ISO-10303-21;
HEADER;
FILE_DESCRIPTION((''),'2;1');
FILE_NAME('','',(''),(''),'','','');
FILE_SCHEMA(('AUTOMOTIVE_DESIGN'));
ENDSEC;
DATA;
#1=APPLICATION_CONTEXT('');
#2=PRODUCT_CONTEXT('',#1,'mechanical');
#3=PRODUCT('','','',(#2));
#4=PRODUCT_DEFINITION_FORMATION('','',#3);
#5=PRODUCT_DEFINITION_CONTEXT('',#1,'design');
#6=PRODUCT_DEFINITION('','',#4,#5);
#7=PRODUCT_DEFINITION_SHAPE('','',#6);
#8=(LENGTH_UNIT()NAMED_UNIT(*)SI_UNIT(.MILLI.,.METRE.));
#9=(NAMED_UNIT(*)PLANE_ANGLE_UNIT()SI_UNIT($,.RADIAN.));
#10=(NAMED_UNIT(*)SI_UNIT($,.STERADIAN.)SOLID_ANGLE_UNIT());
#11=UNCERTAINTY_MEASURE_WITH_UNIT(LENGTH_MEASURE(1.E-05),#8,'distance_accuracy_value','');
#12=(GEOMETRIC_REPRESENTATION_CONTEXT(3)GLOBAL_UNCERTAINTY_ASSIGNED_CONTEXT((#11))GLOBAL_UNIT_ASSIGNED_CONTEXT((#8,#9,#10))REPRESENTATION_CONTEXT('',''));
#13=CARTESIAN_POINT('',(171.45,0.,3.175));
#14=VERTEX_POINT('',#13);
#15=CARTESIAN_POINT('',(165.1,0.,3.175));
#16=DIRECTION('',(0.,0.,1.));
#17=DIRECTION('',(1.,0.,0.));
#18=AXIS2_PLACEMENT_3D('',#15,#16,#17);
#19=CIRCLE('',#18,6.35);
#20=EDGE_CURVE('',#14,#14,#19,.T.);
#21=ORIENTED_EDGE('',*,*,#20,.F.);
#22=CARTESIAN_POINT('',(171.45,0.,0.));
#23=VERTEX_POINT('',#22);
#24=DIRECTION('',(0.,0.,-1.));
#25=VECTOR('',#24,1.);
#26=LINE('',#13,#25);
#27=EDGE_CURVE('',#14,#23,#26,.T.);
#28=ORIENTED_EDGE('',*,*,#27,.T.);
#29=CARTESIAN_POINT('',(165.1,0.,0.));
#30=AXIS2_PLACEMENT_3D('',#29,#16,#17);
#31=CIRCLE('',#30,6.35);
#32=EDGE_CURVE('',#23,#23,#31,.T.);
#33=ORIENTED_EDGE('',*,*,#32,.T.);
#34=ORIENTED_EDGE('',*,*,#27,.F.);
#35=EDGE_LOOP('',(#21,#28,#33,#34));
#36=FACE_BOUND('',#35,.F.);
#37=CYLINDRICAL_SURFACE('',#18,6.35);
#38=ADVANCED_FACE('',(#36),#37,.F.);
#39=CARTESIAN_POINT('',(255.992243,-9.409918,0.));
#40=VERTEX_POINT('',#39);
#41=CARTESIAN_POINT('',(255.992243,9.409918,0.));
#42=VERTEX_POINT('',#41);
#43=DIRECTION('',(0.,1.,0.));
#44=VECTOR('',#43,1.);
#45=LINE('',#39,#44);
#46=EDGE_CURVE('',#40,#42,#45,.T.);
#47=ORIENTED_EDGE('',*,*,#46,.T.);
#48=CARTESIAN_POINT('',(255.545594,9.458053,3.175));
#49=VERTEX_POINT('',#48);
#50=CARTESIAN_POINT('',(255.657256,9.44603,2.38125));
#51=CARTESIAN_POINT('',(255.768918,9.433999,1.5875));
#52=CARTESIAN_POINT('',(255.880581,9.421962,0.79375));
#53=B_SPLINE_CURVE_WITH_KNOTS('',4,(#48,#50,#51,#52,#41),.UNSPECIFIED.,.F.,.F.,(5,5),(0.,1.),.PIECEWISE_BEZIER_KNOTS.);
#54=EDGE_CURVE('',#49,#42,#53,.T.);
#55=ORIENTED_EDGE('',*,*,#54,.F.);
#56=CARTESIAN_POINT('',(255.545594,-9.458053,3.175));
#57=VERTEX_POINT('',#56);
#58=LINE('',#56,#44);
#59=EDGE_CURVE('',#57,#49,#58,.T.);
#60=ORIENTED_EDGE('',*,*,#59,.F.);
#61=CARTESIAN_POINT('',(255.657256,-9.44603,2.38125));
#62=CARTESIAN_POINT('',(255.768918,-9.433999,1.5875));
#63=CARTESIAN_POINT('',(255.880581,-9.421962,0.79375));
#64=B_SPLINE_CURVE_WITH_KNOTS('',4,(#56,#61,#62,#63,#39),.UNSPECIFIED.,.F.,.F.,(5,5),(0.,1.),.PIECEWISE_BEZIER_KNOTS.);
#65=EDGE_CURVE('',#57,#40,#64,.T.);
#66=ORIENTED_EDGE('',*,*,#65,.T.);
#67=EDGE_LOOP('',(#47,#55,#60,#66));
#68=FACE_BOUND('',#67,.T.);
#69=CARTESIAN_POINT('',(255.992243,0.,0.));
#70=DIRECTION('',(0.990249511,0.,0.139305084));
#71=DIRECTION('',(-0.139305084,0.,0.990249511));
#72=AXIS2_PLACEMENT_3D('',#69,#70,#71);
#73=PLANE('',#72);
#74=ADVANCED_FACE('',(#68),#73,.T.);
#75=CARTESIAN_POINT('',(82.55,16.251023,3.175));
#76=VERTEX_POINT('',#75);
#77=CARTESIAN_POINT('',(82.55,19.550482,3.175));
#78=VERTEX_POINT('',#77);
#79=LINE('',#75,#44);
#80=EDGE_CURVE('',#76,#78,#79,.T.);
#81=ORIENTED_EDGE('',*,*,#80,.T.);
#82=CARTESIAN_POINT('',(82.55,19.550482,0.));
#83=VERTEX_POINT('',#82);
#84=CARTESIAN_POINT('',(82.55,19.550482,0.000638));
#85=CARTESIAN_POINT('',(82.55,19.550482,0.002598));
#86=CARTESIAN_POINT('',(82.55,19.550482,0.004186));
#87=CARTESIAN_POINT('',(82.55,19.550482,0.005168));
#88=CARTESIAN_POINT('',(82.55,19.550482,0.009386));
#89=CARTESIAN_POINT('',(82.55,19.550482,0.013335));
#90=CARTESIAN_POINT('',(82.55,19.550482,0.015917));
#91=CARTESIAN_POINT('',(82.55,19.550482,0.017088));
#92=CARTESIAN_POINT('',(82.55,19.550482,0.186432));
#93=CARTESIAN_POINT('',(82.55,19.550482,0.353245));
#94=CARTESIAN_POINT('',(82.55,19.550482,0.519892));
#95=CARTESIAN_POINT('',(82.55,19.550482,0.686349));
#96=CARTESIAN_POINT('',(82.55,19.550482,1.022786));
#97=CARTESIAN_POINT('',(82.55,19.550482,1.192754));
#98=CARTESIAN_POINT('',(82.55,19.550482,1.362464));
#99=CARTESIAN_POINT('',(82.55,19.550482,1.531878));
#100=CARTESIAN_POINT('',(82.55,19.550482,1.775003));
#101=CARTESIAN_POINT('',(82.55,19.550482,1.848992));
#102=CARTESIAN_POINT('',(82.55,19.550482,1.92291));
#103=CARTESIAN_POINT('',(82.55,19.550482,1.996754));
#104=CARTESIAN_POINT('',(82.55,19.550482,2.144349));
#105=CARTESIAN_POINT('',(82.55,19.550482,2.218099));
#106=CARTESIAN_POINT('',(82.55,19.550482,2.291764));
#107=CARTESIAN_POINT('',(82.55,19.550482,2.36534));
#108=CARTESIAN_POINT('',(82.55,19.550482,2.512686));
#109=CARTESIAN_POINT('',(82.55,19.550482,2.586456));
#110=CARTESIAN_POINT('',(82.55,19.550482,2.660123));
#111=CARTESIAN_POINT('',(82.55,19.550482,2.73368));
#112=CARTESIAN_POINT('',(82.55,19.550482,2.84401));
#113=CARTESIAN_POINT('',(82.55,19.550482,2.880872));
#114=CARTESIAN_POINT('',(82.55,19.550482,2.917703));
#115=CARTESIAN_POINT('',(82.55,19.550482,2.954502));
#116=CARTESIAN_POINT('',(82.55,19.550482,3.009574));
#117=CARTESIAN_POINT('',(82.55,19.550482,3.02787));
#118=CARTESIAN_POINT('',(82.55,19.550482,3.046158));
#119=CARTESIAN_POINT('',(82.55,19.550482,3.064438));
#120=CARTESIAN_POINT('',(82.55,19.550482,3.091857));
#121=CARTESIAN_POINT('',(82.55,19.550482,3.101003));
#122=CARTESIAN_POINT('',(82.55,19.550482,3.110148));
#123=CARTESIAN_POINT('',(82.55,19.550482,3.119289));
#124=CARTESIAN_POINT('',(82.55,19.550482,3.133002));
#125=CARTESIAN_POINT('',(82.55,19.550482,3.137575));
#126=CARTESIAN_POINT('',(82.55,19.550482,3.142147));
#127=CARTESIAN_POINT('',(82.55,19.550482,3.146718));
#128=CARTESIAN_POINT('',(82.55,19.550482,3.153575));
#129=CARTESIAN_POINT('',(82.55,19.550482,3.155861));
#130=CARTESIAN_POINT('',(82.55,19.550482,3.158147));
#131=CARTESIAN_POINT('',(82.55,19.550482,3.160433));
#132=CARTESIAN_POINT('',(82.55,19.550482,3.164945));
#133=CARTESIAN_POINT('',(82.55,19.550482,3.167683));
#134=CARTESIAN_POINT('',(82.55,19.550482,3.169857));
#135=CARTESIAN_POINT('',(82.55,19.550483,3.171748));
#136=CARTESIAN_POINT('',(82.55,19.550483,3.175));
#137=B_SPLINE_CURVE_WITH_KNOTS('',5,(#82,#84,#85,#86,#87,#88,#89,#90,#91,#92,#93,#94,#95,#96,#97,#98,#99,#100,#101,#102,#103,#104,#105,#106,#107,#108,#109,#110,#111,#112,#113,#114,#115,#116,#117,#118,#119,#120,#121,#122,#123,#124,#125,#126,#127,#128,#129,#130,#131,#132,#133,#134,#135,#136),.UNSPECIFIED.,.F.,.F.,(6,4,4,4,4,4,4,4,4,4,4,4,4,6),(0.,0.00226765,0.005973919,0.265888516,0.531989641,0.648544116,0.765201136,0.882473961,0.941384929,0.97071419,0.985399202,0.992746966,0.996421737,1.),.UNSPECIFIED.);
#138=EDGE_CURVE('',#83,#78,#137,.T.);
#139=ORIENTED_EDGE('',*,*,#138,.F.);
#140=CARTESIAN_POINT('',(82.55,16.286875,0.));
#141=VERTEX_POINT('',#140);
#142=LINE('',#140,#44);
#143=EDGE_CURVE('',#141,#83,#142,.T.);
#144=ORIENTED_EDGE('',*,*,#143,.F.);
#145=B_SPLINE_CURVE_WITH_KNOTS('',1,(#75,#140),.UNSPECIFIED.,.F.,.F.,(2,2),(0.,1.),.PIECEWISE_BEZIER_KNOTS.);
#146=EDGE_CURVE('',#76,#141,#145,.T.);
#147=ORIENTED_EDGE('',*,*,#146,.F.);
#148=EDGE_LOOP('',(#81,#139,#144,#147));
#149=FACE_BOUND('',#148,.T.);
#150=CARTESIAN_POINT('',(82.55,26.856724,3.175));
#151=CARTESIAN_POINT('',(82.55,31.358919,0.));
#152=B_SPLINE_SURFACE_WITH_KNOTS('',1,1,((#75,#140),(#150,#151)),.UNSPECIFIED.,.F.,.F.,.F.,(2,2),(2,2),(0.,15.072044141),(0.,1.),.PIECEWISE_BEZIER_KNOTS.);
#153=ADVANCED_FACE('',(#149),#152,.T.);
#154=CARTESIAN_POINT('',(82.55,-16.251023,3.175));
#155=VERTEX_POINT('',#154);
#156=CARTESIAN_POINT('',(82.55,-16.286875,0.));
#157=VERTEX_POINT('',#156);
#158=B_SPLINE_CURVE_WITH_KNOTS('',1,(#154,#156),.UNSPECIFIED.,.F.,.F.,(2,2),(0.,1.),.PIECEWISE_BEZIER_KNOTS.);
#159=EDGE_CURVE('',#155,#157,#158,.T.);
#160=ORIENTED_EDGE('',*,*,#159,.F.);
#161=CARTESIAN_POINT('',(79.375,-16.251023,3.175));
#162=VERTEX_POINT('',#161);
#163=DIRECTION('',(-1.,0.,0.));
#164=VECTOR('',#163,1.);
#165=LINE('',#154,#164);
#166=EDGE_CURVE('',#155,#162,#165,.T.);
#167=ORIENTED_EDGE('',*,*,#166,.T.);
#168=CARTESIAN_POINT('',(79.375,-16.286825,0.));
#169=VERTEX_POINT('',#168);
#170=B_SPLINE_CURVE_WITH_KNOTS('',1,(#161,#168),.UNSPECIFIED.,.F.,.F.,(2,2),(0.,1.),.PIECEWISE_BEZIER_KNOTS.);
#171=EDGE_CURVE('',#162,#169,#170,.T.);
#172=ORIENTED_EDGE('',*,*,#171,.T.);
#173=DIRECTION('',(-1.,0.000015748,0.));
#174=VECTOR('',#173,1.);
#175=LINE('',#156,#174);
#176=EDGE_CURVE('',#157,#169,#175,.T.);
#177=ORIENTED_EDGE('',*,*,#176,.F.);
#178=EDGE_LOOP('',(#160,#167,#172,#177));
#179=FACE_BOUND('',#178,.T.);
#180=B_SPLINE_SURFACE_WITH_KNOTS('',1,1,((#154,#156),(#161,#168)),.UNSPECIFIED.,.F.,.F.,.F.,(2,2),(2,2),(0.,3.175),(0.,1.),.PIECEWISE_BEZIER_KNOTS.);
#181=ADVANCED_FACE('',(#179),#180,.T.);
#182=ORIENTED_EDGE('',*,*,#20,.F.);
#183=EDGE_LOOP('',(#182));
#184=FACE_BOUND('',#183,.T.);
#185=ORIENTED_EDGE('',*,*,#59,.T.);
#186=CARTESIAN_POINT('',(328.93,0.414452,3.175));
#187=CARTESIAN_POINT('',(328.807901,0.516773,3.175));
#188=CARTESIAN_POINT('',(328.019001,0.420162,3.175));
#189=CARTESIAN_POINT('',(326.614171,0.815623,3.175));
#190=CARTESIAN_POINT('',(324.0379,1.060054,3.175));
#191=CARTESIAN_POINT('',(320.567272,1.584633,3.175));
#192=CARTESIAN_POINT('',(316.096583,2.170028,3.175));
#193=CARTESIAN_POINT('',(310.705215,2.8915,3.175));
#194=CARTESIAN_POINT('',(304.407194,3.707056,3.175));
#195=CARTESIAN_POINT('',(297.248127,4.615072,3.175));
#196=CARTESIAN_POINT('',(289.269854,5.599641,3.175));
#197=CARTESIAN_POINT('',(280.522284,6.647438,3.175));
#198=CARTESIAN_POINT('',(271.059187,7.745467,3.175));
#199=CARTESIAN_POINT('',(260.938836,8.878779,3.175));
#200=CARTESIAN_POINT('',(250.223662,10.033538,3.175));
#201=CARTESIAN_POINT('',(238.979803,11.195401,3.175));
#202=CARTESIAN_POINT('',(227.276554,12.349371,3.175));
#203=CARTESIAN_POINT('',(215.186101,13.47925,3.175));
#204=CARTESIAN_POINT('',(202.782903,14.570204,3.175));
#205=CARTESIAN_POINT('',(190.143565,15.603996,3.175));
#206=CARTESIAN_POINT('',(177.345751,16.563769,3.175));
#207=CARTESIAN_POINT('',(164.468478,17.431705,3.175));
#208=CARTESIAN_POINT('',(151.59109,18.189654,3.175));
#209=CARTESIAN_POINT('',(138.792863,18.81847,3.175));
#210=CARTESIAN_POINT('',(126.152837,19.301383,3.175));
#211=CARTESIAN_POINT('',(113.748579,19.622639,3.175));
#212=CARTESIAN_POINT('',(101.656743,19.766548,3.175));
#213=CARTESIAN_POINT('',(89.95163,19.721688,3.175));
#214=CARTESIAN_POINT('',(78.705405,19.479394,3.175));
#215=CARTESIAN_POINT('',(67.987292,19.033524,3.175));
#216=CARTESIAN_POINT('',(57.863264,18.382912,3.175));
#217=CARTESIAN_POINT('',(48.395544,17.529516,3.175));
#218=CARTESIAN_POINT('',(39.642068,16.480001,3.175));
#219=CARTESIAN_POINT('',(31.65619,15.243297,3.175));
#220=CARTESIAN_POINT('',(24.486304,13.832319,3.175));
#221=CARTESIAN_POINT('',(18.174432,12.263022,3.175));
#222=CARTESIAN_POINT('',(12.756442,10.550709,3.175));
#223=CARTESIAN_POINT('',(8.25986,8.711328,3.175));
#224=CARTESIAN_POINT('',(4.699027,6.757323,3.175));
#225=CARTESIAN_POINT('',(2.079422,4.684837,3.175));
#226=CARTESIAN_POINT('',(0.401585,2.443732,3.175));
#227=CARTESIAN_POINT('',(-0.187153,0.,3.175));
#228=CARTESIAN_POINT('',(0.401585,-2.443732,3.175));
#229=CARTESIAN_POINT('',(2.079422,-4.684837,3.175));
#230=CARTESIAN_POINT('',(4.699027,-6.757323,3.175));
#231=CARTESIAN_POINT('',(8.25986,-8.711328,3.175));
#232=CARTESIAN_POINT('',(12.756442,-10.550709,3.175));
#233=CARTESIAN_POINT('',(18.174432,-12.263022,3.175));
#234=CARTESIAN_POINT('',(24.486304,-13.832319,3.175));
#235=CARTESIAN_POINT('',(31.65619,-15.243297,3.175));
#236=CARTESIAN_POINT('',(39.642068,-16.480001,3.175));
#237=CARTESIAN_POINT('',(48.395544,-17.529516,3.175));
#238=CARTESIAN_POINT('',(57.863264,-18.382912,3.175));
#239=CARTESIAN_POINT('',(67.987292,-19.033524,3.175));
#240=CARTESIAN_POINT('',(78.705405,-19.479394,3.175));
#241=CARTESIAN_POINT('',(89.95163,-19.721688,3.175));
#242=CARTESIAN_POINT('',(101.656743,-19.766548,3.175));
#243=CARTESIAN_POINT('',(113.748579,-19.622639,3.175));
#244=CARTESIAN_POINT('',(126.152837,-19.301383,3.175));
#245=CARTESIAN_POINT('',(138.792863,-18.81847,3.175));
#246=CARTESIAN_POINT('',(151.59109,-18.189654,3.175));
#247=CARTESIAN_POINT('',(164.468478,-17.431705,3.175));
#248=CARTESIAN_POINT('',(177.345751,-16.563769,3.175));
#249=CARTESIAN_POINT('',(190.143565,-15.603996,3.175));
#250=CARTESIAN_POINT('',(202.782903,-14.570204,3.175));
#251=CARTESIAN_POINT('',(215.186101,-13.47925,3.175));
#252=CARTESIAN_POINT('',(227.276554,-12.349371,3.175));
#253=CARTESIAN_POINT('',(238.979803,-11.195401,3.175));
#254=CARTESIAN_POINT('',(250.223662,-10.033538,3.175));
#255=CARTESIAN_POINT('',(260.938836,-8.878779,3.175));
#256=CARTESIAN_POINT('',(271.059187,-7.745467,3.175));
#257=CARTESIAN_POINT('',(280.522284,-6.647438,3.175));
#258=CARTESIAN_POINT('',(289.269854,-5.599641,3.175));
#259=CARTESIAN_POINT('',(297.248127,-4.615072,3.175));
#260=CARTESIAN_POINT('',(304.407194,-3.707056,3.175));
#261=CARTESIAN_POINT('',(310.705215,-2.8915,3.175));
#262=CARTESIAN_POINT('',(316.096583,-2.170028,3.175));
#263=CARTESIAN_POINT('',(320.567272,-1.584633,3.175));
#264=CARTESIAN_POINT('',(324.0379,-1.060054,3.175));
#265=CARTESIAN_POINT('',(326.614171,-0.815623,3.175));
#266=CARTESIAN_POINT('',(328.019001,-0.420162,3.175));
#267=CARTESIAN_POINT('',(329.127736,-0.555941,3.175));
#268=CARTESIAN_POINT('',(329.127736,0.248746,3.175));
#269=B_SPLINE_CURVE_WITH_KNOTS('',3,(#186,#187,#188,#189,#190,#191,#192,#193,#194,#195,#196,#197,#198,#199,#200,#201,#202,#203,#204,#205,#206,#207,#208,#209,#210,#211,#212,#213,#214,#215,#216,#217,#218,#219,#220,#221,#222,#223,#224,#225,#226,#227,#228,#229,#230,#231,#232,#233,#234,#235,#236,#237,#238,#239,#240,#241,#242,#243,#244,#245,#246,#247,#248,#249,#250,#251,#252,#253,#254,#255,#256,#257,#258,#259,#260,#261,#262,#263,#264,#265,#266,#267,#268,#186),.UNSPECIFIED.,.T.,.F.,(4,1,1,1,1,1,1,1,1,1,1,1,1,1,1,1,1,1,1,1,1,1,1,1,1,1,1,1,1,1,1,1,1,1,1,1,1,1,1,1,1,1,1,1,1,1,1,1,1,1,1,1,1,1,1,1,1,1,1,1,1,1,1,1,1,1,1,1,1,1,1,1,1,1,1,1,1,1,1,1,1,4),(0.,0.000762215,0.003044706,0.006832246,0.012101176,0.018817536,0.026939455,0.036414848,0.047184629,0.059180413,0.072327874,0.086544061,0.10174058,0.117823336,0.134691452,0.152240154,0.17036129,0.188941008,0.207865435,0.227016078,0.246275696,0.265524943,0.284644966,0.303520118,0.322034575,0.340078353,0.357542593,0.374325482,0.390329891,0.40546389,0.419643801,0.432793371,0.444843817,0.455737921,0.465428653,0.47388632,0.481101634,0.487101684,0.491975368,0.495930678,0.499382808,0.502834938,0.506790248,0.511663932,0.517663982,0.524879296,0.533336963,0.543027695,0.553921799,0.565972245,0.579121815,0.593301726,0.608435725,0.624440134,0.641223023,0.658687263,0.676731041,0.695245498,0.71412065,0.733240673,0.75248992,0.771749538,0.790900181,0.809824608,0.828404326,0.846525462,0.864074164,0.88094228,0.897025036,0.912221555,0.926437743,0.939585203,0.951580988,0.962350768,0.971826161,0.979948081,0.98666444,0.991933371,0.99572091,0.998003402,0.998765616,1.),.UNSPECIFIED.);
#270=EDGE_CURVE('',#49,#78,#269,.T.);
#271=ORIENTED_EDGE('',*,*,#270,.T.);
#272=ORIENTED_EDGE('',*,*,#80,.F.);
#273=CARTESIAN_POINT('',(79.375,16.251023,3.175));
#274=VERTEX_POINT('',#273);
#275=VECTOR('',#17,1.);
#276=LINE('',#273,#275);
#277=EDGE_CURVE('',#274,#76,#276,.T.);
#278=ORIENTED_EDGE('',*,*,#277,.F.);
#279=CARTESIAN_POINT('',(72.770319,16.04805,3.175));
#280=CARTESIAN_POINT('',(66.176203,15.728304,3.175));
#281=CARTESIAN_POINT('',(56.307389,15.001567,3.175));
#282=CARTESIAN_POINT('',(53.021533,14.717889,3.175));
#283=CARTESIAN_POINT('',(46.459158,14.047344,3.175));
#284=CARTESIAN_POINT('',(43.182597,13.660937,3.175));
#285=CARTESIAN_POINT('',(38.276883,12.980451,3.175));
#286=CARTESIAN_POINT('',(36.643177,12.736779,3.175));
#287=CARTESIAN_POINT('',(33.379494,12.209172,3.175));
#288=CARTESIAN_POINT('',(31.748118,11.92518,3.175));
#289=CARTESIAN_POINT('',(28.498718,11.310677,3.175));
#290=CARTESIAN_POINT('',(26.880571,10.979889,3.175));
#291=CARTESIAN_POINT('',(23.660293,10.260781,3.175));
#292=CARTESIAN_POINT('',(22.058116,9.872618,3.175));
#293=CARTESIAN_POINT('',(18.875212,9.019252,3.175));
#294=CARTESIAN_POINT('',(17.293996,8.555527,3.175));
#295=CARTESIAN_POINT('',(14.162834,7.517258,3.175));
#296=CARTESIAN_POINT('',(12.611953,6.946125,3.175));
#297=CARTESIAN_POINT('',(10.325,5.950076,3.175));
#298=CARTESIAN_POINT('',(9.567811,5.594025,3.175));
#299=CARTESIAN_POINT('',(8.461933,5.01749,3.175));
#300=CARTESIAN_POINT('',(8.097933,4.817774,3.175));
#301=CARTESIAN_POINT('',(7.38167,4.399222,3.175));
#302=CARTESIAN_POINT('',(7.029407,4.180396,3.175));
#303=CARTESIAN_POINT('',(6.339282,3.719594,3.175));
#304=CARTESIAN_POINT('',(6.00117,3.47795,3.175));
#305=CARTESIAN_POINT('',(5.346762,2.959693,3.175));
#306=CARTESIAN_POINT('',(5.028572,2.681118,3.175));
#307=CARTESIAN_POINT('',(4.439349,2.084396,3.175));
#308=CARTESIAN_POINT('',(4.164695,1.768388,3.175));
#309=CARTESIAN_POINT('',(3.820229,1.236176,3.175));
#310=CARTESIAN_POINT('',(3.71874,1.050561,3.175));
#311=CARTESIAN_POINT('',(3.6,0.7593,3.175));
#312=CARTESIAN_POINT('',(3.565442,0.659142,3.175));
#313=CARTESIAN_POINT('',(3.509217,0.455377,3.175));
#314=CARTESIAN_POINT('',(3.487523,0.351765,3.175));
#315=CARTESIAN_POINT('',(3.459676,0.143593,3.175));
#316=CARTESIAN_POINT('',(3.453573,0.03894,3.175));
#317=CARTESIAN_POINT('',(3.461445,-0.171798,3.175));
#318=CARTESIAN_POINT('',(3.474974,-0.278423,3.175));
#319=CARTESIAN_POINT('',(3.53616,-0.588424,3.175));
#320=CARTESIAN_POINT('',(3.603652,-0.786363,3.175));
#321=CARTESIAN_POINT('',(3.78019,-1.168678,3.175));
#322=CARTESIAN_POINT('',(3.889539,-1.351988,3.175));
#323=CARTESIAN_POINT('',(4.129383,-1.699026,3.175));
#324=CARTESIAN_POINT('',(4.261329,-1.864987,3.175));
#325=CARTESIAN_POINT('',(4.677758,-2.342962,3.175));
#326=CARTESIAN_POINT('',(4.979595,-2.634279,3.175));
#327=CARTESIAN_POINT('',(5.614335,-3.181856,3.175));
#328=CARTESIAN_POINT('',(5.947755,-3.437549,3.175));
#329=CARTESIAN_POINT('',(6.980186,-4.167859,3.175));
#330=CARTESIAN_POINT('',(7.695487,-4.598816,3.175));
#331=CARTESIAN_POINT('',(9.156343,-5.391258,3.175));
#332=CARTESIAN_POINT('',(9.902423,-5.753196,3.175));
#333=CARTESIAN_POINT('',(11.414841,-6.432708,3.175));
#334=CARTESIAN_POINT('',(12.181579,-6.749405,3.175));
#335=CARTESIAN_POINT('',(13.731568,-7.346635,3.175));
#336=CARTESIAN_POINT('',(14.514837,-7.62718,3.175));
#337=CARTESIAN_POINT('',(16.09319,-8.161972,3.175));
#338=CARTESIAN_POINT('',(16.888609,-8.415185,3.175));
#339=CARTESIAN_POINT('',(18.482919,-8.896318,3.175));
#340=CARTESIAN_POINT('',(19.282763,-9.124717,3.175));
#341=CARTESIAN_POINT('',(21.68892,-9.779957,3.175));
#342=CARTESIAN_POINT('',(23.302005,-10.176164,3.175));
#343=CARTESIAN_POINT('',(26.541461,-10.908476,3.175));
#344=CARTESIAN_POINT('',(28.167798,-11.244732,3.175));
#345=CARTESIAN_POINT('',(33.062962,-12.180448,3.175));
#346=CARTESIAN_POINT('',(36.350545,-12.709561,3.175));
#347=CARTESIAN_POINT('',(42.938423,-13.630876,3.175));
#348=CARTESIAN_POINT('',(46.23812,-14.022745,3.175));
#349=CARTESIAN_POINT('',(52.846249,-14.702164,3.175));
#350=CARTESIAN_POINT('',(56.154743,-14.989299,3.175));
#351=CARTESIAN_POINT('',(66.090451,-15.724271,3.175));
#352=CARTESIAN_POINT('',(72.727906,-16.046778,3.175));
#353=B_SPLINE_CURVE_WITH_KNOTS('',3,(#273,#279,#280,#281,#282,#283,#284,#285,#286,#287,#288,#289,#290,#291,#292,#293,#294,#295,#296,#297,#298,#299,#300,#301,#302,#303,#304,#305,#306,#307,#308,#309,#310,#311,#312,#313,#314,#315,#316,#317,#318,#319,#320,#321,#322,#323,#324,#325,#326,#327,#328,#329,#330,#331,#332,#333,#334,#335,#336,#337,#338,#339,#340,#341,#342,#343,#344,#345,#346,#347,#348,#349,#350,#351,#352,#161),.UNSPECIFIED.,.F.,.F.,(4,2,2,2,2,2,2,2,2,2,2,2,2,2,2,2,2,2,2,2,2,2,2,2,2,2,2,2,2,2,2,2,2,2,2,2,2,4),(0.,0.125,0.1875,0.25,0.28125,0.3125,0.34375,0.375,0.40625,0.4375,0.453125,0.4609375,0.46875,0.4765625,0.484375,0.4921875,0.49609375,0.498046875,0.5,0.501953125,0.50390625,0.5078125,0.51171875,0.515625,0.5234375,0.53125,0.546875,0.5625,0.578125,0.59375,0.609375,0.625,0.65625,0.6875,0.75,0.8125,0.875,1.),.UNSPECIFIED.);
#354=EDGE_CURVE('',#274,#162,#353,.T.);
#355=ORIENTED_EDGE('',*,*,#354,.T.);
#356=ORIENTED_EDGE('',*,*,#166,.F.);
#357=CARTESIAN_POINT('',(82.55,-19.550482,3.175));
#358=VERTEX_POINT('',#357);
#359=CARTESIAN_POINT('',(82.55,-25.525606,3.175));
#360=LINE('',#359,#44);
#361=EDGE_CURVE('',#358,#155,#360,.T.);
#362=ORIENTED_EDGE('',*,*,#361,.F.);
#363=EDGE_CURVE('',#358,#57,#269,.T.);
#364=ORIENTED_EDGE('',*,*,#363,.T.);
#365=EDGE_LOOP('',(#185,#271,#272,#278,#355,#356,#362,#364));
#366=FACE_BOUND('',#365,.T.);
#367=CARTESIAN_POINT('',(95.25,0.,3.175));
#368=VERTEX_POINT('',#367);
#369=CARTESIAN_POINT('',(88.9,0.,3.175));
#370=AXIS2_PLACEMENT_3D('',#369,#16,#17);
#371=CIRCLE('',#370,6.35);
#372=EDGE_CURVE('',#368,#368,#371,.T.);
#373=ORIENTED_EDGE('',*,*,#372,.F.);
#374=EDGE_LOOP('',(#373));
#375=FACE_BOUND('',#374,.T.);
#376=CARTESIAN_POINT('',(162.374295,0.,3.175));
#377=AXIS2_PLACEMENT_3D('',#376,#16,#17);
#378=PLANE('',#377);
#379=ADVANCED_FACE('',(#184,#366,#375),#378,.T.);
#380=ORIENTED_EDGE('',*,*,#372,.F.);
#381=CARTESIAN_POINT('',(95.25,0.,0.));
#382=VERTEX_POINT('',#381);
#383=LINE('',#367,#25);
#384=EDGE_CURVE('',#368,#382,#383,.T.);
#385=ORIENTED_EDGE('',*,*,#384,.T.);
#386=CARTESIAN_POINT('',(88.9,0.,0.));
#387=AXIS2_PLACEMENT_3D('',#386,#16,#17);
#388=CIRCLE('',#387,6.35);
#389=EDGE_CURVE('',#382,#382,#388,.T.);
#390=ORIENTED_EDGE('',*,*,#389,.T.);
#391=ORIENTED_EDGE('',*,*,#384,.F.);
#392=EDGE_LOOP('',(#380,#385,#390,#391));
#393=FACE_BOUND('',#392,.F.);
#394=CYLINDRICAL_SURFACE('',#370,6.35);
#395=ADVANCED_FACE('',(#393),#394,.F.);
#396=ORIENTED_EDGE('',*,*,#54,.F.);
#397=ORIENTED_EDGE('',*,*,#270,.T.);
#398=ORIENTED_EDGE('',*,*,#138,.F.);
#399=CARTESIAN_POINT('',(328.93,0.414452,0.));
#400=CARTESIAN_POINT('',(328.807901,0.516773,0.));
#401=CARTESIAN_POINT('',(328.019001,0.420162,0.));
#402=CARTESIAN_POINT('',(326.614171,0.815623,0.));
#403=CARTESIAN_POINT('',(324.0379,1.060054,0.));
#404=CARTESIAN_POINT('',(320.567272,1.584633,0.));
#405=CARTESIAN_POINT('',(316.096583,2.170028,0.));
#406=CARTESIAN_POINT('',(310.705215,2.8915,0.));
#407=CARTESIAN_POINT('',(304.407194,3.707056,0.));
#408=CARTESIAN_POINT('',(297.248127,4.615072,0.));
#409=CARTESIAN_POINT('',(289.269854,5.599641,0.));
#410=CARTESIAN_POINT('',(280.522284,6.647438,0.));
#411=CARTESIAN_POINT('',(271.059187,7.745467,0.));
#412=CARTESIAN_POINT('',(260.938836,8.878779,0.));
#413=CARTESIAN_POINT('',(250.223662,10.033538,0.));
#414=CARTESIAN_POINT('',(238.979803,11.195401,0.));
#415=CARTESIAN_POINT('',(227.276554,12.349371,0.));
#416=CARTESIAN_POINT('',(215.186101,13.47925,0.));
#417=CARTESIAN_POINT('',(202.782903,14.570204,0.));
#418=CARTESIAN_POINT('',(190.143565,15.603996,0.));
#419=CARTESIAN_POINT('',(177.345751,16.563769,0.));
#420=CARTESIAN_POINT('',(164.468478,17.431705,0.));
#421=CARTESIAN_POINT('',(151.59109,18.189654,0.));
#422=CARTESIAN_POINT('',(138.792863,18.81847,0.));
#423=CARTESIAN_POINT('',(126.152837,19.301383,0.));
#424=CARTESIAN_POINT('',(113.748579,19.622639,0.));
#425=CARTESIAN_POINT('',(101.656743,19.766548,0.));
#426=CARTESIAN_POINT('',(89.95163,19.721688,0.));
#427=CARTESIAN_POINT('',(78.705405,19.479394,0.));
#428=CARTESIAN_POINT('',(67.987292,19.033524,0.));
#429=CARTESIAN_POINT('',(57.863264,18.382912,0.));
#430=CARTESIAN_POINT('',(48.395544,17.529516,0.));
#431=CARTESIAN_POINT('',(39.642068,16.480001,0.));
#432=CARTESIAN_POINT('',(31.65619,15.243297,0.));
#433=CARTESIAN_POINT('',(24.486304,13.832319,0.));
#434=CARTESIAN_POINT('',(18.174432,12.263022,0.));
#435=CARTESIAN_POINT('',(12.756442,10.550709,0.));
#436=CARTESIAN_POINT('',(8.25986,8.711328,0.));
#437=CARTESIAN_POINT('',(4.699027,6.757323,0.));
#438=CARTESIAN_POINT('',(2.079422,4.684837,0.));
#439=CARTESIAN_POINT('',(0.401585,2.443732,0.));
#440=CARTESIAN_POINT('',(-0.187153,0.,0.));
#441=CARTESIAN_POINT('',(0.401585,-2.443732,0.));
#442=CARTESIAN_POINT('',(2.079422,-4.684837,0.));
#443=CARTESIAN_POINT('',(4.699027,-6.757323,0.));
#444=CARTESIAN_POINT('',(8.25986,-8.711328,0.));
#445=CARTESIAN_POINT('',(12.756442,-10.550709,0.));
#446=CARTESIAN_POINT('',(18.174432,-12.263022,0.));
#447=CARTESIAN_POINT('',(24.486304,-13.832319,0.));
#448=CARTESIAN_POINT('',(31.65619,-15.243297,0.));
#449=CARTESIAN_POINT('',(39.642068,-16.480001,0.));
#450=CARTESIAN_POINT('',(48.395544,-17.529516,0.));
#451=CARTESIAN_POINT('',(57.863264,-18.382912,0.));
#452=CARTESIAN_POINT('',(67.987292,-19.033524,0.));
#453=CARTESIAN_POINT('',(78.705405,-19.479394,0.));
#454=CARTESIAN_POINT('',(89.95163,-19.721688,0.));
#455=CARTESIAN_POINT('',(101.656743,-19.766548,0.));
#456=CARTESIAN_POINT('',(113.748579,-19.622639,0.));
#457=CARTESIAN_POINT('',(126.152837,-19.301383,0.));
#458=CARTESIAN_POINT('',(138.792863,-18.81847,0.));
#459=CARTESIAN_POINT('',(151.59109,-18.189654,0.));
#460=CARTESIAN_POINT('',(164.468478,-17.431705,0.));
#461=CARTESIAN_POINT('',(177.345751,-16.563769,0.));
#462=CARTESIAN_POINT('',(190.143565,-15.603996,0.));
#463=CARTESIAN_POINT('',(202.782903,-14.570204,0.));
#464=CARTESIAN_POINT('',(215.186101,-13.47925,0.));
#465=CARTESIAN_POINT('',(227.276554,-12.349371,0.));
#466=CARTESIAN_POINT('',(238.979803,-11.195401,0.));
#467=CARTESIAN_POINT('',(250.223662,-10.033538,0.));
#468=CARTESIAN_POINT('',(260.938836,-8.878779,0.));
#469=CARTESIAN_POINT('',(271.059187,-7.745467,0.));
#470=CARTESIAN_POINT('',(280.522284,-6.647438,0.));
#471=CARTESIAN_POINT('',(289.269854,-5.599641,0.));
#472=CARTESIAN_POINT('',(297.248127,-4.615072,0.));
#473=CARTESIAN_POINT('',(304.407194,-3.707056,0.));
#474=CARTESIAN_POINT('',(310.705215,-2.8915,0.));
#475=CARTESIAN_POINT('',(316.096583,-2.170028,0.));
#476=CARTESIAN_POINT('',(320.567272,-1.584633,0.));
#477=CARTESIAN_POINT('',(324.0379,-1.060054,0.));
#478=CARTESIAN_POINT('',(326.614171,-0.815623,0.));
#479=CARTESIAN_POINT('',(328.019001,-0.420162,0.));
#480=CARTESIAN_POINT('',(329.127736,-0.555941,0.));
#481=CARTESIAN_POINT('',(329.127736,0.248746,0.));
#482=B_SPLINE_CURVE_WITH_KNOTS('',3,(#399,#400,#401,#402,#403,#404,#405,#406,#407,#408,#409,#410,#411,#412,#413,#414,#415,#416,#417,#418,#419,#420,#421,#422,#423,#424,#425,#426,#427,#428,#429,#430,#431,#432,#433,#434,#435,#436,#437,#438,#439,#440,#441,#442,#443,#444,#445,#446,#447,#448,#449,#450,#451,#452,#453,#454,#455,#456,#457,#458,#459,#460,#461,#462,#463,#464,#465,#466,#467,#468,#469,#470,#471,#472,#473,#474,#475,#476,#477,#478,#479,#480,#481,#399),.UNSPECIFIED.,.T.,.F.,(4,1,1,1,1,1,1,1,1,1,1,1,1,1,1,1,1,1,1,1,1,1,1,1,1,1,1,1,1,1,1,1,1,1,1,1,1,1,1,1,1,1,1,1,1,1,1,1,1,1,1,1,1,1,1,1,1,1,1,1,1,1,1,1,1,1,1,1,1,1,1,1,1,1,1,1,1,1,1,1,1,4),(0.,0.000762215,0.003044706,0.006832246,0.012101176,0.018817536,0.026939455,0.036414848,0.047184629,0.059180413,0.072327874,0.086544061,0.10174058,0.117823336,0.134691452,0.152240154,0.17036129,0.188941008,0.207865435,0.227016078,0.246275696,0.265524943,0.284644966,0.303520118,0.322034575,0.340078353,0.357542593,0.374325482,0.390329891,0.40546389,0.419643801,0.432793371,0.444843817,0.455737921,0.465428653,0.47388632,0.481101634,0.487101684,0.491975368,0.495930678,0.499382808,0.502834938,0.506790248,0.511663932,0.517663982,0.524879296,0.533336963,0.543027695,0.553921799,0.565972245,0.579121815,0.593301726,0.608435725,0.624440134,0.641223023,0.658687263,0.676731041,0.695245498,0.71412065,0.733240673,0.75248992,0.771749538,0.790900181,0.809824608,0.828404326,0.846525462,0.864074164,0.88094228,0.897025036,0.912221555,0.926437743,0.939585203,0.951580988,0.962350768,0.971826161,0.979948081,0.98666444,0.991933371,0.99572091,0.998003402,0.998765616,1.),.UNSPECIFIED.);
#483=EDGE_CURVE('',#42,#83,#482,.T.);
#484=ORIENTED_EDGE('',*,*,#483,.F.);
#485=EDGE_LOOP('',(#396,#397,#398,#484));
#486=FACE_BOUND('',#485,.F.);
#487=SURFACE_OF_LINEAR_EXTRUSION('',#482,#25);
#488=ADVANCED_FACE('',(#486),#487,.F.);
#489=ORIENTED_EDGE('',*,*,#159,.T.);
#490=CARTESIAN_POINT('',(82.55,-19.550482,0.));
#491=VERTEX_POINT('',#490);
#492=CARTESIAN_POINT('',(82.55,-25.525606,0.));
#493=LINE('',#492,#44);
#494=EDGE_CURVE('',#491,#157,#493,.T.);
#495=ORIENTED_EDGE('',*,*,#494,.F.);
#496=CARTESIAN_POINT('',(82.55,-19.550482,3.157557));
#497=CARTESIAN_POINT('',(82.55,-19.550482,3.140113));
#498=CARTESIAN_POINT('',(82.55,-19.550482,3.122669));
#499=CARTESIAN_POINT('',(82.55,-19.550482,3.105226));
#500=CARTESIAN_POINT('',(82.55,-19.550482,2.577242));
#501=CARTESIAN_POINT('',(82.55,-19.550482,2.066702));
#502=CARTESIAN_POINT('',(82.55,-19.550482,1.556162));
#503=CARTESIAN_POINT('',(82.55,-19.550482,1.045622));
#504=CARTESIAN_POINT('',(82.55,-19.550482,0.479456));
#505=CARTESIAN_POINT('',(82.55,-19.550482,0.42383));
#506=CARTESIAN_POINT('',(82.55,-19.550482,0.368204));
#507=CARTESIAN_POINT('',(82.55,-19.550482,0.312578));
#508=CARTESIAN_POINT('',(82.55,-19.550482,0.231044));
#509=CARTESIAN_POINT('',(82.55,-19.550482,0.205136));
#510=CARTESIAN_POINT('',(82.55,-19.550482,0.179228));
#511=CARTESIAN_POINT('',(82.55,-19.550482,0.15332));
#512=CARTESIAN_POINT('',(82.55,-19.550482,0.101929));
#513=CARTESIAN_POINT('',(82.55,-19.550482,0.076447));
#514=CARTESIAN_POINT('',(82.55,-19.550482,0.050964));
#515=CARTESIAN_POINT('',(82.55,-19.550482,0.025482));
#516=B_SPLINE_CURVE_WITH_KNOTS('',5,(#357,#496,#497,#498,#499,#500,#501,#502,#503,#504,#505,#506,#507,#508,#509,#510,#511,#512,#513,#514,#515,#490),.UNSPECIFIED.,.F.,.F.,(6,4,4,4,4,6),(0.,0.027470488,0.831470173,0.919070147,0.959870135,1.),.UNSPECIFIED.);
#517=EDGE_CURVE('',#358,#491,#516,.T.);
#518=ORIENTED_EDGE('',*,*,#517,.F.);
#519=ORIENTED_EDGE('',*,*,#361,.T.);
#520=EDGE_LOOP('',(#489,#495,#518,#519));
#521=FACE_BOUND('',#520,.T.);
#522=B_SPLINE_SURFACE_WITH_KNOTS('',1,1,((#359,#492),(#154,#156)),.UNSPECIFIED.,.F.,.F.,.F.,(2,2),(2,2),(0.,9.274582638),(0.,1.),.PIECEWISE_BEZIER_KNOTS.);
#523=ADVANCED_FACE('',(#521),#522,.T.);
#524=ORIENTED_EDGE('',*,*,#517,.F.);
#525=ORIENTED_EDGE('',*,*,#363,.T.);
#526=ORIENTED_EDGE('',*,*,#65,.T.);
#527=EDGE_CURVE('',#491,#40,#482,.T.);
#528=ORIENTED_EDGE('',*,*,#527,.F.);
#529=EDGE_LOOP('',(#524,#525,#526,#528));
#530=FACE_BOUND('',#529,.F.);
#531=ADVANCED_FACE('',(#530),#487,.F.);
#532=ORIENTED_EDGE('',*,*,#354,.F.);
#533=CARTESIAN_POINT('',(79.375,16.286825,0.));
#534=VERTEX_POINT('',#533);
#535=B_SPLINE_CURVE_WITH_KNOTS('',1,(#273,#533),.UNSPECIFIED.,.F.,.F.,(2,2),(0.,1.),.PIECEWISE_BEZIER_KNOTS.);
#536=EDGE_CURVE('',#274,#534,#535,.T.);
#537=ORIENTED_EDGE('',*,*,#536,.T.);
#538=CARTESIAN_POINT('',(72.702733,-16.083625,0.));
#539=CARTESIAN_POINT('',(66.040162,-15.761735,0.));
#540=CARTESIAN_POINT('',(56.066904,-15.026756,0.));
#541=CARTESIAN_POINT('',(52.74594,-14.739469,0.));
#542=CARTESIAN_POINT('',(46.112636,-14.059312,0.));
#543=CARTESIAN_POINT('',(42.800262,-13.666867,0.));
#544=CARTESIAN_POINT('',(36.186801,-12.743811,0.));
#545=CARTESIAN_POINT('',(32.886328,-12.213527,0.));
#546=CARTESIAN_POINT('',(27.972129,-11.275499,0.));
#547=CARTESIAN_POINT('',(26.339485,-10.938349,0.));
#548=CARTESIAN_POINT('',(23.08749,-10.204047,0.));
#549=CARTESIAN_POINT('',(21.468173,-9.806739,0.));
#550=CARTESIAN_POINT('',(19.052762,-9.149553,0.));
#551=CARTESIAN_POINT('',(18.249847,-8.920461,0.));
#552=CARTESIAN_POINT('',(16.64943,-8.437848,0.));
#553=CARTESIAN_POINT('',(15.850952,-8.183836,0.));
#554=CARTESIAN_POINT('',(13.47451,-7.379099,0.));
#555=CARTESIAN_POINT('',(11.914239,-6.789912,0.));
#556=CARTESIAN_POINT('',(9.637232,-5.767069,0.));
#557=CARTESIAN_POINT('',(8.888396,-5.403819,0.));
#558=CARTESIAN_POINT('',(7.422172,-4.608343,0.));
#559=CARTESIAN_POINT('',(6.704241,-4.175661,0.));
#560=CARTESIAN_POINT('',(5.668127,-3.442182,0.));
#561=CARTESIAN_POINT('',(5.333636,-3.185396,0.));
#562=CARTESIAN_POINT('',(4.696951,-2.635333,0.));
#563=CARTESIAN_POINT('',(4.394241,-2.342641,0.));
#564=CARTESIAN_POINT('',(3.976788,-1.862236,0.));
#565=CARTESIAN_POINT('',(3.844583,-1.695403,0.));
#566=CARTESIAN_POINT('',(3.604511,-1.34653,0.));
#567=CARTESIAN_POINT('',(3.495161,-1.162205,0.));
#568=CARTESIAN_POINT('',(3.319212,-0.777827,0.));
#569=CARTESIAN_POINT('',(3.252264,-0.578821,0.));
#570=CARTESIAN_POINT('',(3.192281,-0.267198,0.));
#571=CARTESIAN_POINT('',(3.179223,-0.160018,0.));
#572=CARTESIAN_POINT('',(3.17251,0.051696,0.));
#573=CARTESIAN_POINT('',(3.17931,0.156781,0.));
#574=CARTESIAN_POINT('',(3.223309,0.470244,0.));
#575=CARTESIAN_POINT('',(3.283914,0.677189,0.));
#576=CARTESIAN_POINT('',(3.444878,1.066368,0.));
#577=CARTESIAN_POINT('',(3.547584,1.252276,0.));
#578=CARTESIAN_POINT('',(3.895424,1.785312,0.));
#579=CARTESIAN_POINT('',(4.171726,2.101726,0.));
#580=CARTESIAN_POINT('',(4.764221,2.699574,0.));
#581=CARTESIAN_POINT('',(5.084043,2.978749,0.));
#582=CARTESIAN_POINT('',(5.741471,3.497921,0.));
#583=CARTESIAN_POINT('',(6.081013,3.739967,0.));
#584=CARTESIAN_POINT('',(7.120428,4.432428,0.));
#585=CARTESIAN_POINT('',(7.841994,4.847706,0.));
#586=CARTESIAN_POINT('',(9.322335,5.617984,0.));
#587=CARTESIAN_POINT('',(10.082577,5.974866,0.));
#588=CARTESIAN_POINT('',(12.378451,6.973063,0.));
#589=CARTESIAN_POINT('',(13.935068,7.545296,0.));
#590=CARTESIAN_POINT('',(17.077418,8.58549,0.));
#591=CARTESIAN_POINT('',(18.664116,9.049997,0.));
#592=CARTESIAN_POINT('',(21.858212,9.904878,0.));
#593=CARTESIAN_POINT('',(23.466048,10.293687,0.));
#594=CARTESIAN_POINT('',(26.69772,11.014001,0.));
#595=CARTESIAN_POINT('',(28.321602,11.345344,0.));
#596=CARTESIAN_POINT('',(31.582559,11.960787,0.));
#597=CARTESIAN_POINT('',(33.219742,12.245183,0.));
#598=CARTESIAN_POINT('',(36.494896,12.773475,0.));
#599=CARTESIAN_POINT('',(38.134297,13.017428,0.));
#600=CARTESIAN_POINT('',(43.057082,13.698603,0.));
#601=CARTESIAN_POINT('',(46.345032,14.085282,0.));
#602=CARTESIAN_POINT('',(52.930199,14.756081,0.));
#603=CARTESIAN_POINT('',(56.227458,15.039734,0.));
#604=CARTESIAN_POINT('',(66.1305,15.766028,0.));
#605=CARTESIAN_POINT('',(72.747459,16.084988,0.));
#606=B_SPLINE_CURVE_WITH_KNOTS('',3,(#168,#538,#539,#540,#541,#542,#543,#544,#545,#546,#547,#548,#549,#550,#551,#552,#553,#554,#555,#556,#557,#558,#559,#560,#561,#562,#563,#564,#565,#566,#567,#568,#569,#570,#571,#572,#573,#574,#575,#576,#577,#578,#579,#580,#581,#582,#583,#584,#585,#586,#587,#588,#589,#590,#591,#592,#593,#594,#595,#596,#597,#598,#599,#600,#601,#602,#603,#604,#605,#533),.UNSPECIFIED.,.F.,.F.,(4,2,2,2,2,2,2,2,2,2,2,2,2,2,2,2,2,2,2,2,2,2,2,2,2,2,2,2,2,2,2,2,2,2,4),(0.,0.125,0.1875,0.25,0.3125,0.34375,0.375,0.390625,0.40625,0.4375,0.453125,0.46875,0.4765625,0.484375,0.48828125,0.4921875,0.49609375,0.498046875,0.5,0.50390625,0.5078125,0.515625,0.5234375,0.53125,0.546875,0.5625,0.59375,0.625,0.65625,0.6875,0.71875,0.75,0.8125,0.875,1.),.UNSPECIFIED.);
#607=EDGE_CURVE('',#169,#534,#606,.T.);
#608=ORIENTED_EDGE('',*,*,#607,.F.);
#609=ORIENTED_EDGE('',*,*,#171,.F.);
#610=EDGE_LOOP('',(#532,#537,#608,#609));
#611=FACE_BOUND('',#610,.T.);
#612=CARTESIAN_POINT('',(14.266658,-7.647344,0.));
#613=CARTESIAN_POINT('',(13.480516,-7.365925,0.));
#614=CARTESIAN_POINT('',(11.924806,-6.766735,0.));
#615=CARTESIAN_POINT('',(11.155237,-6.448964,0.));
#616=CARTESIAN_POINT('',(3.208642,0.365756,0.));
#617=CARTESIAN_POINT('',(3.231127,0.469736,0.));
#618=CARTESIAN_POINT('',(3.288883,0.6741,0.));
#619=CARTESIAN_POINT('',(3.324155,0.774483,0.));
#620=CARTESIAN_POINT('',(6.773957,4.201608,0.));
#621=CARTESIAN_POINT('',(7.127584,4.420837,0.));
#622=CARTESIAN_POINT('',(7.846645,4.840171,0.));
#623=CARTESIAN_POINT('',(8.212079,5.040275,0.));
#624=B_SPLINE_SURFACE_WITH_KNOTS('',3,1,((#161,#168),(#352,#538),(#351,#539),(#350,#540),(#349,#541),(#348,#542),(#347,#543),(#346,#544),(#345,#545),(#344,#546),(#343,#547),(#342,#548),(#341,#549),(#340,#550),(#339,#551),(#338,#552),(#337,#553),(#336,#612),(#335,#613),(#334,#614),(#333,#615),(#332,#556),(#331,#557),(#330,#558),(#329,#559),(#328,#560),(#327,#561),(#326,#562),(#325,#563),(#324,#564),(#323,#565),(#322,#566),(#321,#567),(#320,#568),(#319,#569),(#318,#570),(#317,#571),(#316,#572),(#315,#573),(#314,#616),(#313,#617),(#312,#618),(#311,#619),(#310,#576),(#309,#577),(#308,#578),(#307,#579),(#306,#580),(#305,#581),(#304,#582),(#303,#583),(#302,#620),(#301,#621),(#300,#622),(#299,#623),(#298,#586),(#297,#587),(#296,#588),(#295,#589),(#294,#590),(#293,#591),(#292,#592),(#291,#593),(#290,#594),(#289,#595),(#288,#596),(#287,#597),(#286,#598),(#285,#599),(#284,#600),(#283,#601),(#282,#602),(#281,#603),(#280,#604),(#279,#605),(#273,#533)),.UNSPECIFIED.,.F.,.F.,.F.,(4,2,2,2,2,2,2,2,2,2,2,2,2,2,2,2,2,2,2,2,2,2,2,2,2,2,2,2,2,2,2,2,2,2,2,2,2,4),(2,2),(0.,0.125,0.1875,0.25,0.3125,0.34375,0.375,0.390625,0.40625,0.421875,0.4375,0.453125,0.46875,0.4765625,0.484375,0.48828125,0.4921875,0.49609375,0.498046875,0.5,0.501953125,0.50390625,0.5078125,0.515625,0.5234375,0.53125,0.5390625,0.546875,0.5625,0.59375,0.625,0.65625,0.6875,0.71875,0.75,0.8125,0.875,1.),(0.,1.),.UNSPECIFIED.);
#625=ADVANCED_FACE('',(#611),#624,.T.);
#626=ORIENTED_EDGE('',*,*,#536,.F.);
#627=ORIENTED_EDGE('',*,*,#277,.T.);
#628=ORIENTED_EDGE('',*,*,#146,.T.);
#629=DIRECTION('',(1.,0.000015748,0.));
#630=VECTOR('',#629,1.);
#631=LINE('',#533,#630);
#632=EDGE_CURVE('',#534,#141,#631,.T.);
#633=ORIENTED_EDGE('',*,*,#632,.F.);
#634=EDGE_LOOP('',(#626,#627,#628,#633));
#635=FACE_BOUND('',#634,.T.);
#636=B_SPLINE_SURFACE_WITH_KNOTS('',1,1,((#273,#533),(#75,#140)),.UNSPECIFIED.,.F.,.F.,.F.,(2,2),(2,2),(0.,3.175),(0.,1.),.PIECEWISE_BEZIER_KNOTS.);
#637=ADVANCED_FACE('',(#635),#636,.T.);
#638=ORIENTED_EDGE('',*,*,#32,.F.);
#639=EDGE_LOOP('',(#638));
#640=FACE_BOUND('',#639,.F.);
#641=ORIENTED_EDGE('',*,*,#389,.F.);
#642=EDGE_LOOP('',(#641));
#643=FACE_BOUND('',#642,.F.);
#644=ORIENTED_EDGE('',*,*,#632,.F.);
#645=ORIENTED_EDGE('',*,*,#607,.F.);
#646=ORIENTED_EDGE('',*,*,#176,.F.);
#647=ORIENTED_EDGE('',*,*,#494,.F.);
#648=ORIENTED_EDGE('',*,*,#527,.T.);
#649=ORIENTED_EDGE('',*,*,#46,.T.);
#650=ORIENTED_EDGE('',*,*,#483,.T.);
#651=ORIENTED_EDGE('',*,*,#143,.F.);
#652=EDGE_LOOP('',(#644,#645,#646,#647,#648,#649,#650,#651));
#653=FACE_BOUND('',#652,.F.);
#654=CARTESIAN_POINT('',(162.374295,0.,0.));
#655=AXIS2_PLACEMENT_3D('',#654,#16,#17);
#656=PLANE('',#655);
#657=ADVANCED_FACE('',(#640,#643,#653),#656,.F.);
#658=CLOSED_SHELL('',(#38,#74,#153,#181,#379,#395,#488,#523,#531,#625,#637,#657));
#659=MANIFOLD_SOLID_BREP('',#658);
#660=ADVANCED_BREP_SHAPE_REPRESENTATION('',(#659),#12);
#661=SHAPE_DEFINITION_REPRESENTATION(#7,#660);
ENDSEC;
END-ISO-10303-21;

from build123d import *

# Parameters (mm, degrees)
BOSS_EXTRUDE1_DEPTH     = 3.175
SKETCH2_R               = 6.35
CUT_EXTRUDE1_DEPTH      = 4.1750001
CUT_EXTRUDE2_DEPTH      = 20.741500936
CUT_EXTRUDE2_DEPTH_BACK = 20.741500936


with BuildPart() as part:
    # Sketch1 → Boss-Extrude1 (new body)
    with BuildSketch(Plane.XY):
        with BuildLine():
            add(Edge.make_bspline(
                [(328.93, 0.4144518), (328.807900642, 0.516772717), (328.019000541, 0.420161926), (326.614170865, 0.815622818), (324.037900124, 1.060053788), (320.567272172, 1.584632638), (316.096583479, 2.170027594), (310.705215164, 2.891499965), (304.407193949, 3.70705594), (297.248126622, 4.61507178), (289.269853683, 5.599640546), (280.522284399, 6.647437516), (271.05918713, 7.745466949), (260.938835986, 8.878779448), (250.223661724, 10.033538187), (238.979802735, 11.195400912), (227.276553794, 12.349370833), (215.186101231, 13.479249677), (202.78290329, 14.570204468), (190.143565404, 15.603996393), (177.345750776, 16.563769435), (164.468478458, 17.43170464), (151.591090461, 18.189654233), (138.792862913, 18.818469572), (126.15283726, 19.301382712), (113.748578816, 19.622639213), (101.656743367, 19.766547691), (89.951630239, 19.721687508), (78.705404506, 19.479393557), (67.987291822, 19.033523951), (57.863264224, 18.382912366), (48.395544354, 17.529516447), (39.642067919, 16.480001255), (31.656190162, 15.24329661), (24.486303571, 13.832318834), (18.174431838, 12.263022231), (12.756441756, 10.550709399), (8.259860269, 8.711328155), (4.699027102, 6.757322776), (2.079421527, 4.684836659), (0.401585469, 2.443731656), (-0.187153107, 0), (0.401585469, -2.443731656), (2.079421527, -4.684836659), (4.699027102, -6.757322776), (8.259860269, -8.711328155), (12.756441756, -10.550709399), (18.174431838, -12.263022231), (24.486303571, -13.832318834), (31.656190162, -15.24329661), (39.642067919, -16.480001255), (48.395544354, -17.529516447), (57.863264224, -18.382912366), (67.987291822, -19.033523951), (78.705404506, -19.479393557), (89.951630239, -19.721687508), (101.656743367, -19.766547691), (113.748578816, -19.622639213), (126.15283726, -19.301382712), (138.792862913, -18.818469572), (151.591090461, -18.189654233), (164.468478458, -17.43170464), (177.345750776, -16.563769435), (190.143565404, -15.603996393), (202.78290329, -14.570204468), (215.186101231, -13.479249677), (227.276553794, -12.349370833), (238.979802735, -11.195400912), (250.223661724, -10.033538187), (260.938835986, -8.878779448), (271.05918713, -7.745466949), (280.522284399, -6.647437516), (289.269853683, -5.599640546), (297.248126622, -4.61507178), (304.407193949, -3.70705594), (310.705215164, -2.891499965), (316.096583479, -2.170027594), (320.567272172, -1.584632638), (324.037900124, -1.060053788), (326.614170865, -0.815622818), (328.019000541, -0.420161926), (329.127736254, -0.555940631), (329.127736254, 0.24874614), (328.93, 0.4144518)],
                knots=[0, 0, 0, 0, 0.000762215, 0.003044706, 0.006832246, 0.012101176, 0.018817536, 0.026939455, 0.036414848, 0.047184629, 0.059180413, 0.072327874, 0.086544061, 0.10174058, 0.117823336, 0.134691452, 0.152240154, 0.17036129, 0.188941008, 0.207865435, 0.227016078, 0.246275696, 0.265524943, 0.284644966, 0.303520118, 0.322034575, 0.340078353, 0.357542593, 0.374325482, 0.390329891, 0.40546389, 0.419643801, 0.432793371, 0.444843817, 0.455737921, 0.465428653, 0.47388632, 0.481101634, 0.487101684, 0.491975368, 0.495930678, 0.499382808, 0.502834938, 0.506790248, 0.511663932, 0.517663982, 0.524879296, 0.533336963, 0.543027695, 0.553921799, 0.565972245, 0.579121815, 0.593301726, 0.608435725, 0.624440134, 0.641223023, 0.658687263, 0.676731041, 0.695245498, 0.71412065, 0.733240673, 0.75248992, 0.771749538, 0.790900181, 0.809824608, 0.828404326, 0.846525462, 0.864074164, 0.88094228, 0.897025036, 0.912221555, 0.926437743, 0.939585203, 0.951580988, 0.962350768, 0.971826161, 0.979948081, 0.98666444, 0.991933371, 0.99572091, 0.998003402, 0.998765616, 1, 1, 1, 1], degree=3))
        make_face()
    extrude(amount=BOSS_EXTRUDE1_DEPTH)

    # Sketch2 → Cut-Extrude1 (cut, through all)
    with BuildSketch(Plane.XY.offset(3.175)):
        with Locations((88.9, 0)):
            Circle(SKETCH2_R)
        with Locations((165.1, 0)):
            Circle(SKETCH2_R)
    extrude(amount=-CUT_EXTRUDE1_DEPTH, mode=Mode.SUBTRACT)

    # Sketch3 → Cut-Extrude2 (cut, two sides)
    with BuildSketch(Plane(origin=(0, 0, 0), x_dir=(1, 0, 0), z_dir=(0, 1, 0))) as cut_extrude2_sk:
        Polygon((255.992242673, 0), (255.545593987, -3.175), (329.07830219, -3.175), (329.07830219, 0), align=None)
    extrude(amount=CUT_EXTRUDE2_DEPTH, mode=Mode.SUBTRACT)
    extrude(cut_extrude2_sk.sketch, amount=-CUT_EXTRUDE2_DEPTH_BACK, mode=Mode.SUBTRACT)

    # Sketch4 → Cut-Loft1 section 0
    with BuildSketch(Plane.XY.offset(3.175)):
        with BuildLine():
            Line((82.55, -19.515708197), (82.55, -16.251023077))
            Line((82.55, -16.251023077), (79.375, -16.251023077))
            add(Edge.make_bspline(
                [(79.375, 16.251023077), (72.770318552, 16.048049675), (66.176202719, 15.728304371), (56.30738853, 15.001567412), (53.021532705, 14.717888762), (46.459157571, 14.04734399), (43.182596705, 13.660937457), (38.276882967, 12.980450934), (36.643177419, 12.736779299), (33.379494145, 12.209172355), (31.748117674, 11.925180268), (28.498717967, 11.31067673), (26.880571377, 10.97988905), (23.660292552, 10.260780921), (22.058116365, 9.87261787), (18.875212279, 9.019251619), (17.293996052, 8.555526619), (14.162834442, 7.517257926), (12.611952901, 6.946125273), (10.325000489, 5.950076454), (9.567811499, 5.594025093), (8.461932827, 5.017489815), (8.097932617, 4.81777412), (7.381669561, 4.39922172), (7.029407018, 4.180395983), (6.339282138, 3.719594292), (6.001169966, 3.47795005), (5.346762375, 2.959692647), (5.02857237, 2.681117584), (4.439349211, 2.084395549), (4.164695388, 1.768387828), (3.820228536, 1.236176286), (3.718740433, 1.050561172), (3.59999989, 0.759299745), (3.565442077, 0.659141625), (3.509216677, 0.455376556), (3.487522742, 0.351764773), (3.459675736, 0.143592536), (3.453573255, 0.038940089), (3.461444597, -0.171798071), (3.474973766, -0.278422694), (3.536160139, -0.588423887), (3.603651886, -0.78636311), (3.780189655, -1.168677669), (3.889538593, -1.351988295), (4.129382817, -1.699026003), (4.261329389, -1.864987348), (4.67775825, -2.342961513), (4.979594961, -2.63427888), (5.614334641, -3.181856059), (5.947755344, -3.437548737), (6.980186178, -4.167859174), (7.695486627, -4.59881642), (9.156342741, -5.391257516), (9.902423269, -5.75319572), (11.414841066, -6.432708068), (12.181579116, -6.749404985), (13.73156777, -7.346635451), (14.514836956, -7.627179806), (16.093189665, -8.161972373), (16.88860874, -8.415184993), (18.482918694, -8.896317804), (19.282763312, -9.124717403), (21.688920309, -9.779957105), (23.302005405, -10.176164111), (26.541461257, -10.908476052), (28.167798474, -11.244732377), (33.062961618, -12.180447863), (36.350545365, -12.709560737), (42.938422768, -13.630876096), (46.23811967, -14.02274496), (52.84624923, -14.702163706), (56.154743063, -14.989298509), (66.090451195, -15.724271447), (72.727906329, -16.046777883), (79.375, -16.251023077)],
                knots=[0, 0, 0, 0, 0.125, 0.125, 0.1875, 0.1875, 0.25, 0.25, 0.28125, 0.28125, 0.3125, 0.3125, 0.34375, 0.34375, 0.375, 0.375, 0.40625, 0.40625, 0.4375, 0.4375, 0.453125, 0.453125, 0.4609375, 0.4609375, 0.46875, 0.46875, 0.4765625, 0.4765625, 0.484375, 0.484375, 0.4921875, 0.4921875, 0.49609375, 0.49609375, 0.498046875, 0.498046875, 0.5, 0.5, 0.501953125, 0.501953125, 0.50390625, 0.50390625, 0.5078125, 0.5078125, 0.51171875, 0.51171875, 0.515625, 0.515625, 0.5234375, 0.5234375, 0.53125, 0.53125, 0.546875, 0.546875, 0.5625, 0.5625, 0.578125, 0.578125, 0.59375, 0.59375, 0.609375, 0.609375, 0.625, 0.625, 0.65625, 0.65625, 0.6875, 0.6875, 0.75, 0.75, 0.8125, 0.8125, 0.875, 0.875, 1, 1, 1, 1], degree=3))
            Line((79.375, 16.251023077), (82.55, 16.251023077))
            Line((82.55, 16.251023077), (82.55, 19.515708197))
            Line((82.55, 19.515708197), (82.55, 26.856724286))
            Line((82.55, 26.856724286), (0.541465363, 30.021162049))
            Line((0.541465363, 30.021162049), (-2.146488993, -32.850745924))
            Line((-2.146488993, -32.850745924), (82.55, -25.525605715))
            Line((82.55, -25.525605715), (82.55, -19.515708197))
        make_face()
    # Sketch5 → Cut-Loft1 section 1
    with BuildSketch(Plane(origin=(0, 0, 0), x_dir=(-1, 0, 0), z_dir=(0, 0, -1))):
        with BuildLine():
            Line((-82.55, 16.286875084), (-82.55, 19.550482394))
            Line((-82.55, 19.550482394), (-82.55, 31.358919225))
            Line((-82.55, 31.358919225), (6.781155494, 29.861379368))
            Line((6.781155494, 29.861379368), (6.781155494, -36.639095207))
            Line((6.781155494, -36.639095207), (-82.55, -25.525605715))
            Line((-82.55, -25.525605715), (-82.55, -19.550482394))
            Line((-82.55, -19.550482394), (-82.55, -16.286875084))
            Line((-82.55, -16.286875084), (-79.375, -16.286825084))
            add(Edge.make_bspline(
                [(-79.375, -16.286825084), (-72.70273318, -16.083625481), (-66.040162391, -15.761734789), (-56.066904089, -15.02675589), (-52.74593973, -14.739468648), (-46.112636154, -14.059312037), (-42.800262288, -13.666866819), (-36.186801437, -12.743811384), (-32.886327655, -12.2135267), (-27.972128974, -11.275498707), (-26.339484745, -10.938349054), (-23.087489601, -10.204046758), (-21.46817298, -9.806739324), (-19.052762163, -9.149552861), (-18.249847199, -8.920461216), (-16.649429662, -8.437847637), (-15.850951917, -8.18383552), (-13.474510425, -7.379098548), (-11.914239449, -6.789912299), (-9.637231735, -5.767068515), (-8.888396164, -5.403819393), (-7.422171814, -4.608342986), (-6.704241471, -4.175660987), (-5.668127182, -3.442181611), (-5.333636046, -3.185395684), (-4.696951467, -2.635333166), (-4.394240594, -2.342641179), (-3.976788262, -1.862235899), (-3.844582818, -1.695403026), (-3.604511152, -1.346529706), (-3.495161032, -1.162204789), (-3.319211947, -0.777827241), (-3.252263911, -0.578820545), (-3.192281327, -0.267197855), (-3.179223041, -0.160018081), (-3.172509862, 0.051695952), (-3.179309615, 0.15678123), (-3.223308922, 0.470243795), (-3.283913969, 0.67718865), (-3.444877784, 1.066367796), (-3.547583565, 1.252275918), (-3.89542395, 1.785311832), (-4.171725698, 2.101726419), (-4.764220619, 2.699573748), (-5.08404298, 2.978749304), (-5.741470891, 3.497921226), (-6.081013127, 3.739966717), (-7.120428348, 4.432428384), (-7.84199373, 4.847705574), (-9.322334636, 5.617984146), (-10.082577048, 5.974865708), (-12.378451328, 6.97306267), (-13.935068025, 7.545295509), (-17.077417964, 8.585489689), (-18.664115765, 9.049996772), (-21.858212178, 9.904877668), (-23.466047551, 10.293687362), (-26.697720209, 11.014001073), (-28.321602434, 11.345344154), (-31.582558999, 11.960787009), (-33.219741649, 12.245183343), (-36.494895711, 12.773474887), (-38.134297303, 13.017428152), (-43.057081916, 13.69860264), (-46.345031773, 14.085282453), (-52.93019877, 14.756080578), (-56.227457948, 15.039733656), (-66.130500011, 15.766027755), (-72.74745852, 16.084987562), (-79.375, 16.286825084)],
                knots=[0, 0, 0, 0, 0.125, 0.125, 0.1875, 0.1875, 0.25, 0.25, 0.3125, 0.3125, 0.34375, 0.34375, 0.375, 0.375, 0.390625, 0.390625, 0.40625, 0.40625, 0.4375, 0.4375, 0.453125, 0.453125, 0.46875, 0.46875, 0.4765625, 0.4765625, 0.484375, 0.484375, 0.48828125, 0.48828125, 0.4921875, 0.4921875, 0.49609375, 0.49609375, 0.498046875, 0.498046875, 0.5, 0.5, 0.50390625, 0.50390625, 0.5078125, 0.5078125, 0.515625, 0.515625, 0.5234375, 0.5234375, 0.53125, 0.53125, 0.546875, 0.546875, 0.5625, 0.5625, 0.59375, 0.59375, 0.625, 0.625, 0.65625, 0.65625, 0.6875, 0.6875, 0.71875, 0.71875, 0.75, 0.75, 0.8125, 0.8125, 0.875, 0.875, 1, 1, 1, 1], degree=3))
            Line((-79.375, 16.286825084), (-82.55, 16.286875084))
        make_face()
    loft(mode=Mode.SUBTRACT)


solid = part.part
